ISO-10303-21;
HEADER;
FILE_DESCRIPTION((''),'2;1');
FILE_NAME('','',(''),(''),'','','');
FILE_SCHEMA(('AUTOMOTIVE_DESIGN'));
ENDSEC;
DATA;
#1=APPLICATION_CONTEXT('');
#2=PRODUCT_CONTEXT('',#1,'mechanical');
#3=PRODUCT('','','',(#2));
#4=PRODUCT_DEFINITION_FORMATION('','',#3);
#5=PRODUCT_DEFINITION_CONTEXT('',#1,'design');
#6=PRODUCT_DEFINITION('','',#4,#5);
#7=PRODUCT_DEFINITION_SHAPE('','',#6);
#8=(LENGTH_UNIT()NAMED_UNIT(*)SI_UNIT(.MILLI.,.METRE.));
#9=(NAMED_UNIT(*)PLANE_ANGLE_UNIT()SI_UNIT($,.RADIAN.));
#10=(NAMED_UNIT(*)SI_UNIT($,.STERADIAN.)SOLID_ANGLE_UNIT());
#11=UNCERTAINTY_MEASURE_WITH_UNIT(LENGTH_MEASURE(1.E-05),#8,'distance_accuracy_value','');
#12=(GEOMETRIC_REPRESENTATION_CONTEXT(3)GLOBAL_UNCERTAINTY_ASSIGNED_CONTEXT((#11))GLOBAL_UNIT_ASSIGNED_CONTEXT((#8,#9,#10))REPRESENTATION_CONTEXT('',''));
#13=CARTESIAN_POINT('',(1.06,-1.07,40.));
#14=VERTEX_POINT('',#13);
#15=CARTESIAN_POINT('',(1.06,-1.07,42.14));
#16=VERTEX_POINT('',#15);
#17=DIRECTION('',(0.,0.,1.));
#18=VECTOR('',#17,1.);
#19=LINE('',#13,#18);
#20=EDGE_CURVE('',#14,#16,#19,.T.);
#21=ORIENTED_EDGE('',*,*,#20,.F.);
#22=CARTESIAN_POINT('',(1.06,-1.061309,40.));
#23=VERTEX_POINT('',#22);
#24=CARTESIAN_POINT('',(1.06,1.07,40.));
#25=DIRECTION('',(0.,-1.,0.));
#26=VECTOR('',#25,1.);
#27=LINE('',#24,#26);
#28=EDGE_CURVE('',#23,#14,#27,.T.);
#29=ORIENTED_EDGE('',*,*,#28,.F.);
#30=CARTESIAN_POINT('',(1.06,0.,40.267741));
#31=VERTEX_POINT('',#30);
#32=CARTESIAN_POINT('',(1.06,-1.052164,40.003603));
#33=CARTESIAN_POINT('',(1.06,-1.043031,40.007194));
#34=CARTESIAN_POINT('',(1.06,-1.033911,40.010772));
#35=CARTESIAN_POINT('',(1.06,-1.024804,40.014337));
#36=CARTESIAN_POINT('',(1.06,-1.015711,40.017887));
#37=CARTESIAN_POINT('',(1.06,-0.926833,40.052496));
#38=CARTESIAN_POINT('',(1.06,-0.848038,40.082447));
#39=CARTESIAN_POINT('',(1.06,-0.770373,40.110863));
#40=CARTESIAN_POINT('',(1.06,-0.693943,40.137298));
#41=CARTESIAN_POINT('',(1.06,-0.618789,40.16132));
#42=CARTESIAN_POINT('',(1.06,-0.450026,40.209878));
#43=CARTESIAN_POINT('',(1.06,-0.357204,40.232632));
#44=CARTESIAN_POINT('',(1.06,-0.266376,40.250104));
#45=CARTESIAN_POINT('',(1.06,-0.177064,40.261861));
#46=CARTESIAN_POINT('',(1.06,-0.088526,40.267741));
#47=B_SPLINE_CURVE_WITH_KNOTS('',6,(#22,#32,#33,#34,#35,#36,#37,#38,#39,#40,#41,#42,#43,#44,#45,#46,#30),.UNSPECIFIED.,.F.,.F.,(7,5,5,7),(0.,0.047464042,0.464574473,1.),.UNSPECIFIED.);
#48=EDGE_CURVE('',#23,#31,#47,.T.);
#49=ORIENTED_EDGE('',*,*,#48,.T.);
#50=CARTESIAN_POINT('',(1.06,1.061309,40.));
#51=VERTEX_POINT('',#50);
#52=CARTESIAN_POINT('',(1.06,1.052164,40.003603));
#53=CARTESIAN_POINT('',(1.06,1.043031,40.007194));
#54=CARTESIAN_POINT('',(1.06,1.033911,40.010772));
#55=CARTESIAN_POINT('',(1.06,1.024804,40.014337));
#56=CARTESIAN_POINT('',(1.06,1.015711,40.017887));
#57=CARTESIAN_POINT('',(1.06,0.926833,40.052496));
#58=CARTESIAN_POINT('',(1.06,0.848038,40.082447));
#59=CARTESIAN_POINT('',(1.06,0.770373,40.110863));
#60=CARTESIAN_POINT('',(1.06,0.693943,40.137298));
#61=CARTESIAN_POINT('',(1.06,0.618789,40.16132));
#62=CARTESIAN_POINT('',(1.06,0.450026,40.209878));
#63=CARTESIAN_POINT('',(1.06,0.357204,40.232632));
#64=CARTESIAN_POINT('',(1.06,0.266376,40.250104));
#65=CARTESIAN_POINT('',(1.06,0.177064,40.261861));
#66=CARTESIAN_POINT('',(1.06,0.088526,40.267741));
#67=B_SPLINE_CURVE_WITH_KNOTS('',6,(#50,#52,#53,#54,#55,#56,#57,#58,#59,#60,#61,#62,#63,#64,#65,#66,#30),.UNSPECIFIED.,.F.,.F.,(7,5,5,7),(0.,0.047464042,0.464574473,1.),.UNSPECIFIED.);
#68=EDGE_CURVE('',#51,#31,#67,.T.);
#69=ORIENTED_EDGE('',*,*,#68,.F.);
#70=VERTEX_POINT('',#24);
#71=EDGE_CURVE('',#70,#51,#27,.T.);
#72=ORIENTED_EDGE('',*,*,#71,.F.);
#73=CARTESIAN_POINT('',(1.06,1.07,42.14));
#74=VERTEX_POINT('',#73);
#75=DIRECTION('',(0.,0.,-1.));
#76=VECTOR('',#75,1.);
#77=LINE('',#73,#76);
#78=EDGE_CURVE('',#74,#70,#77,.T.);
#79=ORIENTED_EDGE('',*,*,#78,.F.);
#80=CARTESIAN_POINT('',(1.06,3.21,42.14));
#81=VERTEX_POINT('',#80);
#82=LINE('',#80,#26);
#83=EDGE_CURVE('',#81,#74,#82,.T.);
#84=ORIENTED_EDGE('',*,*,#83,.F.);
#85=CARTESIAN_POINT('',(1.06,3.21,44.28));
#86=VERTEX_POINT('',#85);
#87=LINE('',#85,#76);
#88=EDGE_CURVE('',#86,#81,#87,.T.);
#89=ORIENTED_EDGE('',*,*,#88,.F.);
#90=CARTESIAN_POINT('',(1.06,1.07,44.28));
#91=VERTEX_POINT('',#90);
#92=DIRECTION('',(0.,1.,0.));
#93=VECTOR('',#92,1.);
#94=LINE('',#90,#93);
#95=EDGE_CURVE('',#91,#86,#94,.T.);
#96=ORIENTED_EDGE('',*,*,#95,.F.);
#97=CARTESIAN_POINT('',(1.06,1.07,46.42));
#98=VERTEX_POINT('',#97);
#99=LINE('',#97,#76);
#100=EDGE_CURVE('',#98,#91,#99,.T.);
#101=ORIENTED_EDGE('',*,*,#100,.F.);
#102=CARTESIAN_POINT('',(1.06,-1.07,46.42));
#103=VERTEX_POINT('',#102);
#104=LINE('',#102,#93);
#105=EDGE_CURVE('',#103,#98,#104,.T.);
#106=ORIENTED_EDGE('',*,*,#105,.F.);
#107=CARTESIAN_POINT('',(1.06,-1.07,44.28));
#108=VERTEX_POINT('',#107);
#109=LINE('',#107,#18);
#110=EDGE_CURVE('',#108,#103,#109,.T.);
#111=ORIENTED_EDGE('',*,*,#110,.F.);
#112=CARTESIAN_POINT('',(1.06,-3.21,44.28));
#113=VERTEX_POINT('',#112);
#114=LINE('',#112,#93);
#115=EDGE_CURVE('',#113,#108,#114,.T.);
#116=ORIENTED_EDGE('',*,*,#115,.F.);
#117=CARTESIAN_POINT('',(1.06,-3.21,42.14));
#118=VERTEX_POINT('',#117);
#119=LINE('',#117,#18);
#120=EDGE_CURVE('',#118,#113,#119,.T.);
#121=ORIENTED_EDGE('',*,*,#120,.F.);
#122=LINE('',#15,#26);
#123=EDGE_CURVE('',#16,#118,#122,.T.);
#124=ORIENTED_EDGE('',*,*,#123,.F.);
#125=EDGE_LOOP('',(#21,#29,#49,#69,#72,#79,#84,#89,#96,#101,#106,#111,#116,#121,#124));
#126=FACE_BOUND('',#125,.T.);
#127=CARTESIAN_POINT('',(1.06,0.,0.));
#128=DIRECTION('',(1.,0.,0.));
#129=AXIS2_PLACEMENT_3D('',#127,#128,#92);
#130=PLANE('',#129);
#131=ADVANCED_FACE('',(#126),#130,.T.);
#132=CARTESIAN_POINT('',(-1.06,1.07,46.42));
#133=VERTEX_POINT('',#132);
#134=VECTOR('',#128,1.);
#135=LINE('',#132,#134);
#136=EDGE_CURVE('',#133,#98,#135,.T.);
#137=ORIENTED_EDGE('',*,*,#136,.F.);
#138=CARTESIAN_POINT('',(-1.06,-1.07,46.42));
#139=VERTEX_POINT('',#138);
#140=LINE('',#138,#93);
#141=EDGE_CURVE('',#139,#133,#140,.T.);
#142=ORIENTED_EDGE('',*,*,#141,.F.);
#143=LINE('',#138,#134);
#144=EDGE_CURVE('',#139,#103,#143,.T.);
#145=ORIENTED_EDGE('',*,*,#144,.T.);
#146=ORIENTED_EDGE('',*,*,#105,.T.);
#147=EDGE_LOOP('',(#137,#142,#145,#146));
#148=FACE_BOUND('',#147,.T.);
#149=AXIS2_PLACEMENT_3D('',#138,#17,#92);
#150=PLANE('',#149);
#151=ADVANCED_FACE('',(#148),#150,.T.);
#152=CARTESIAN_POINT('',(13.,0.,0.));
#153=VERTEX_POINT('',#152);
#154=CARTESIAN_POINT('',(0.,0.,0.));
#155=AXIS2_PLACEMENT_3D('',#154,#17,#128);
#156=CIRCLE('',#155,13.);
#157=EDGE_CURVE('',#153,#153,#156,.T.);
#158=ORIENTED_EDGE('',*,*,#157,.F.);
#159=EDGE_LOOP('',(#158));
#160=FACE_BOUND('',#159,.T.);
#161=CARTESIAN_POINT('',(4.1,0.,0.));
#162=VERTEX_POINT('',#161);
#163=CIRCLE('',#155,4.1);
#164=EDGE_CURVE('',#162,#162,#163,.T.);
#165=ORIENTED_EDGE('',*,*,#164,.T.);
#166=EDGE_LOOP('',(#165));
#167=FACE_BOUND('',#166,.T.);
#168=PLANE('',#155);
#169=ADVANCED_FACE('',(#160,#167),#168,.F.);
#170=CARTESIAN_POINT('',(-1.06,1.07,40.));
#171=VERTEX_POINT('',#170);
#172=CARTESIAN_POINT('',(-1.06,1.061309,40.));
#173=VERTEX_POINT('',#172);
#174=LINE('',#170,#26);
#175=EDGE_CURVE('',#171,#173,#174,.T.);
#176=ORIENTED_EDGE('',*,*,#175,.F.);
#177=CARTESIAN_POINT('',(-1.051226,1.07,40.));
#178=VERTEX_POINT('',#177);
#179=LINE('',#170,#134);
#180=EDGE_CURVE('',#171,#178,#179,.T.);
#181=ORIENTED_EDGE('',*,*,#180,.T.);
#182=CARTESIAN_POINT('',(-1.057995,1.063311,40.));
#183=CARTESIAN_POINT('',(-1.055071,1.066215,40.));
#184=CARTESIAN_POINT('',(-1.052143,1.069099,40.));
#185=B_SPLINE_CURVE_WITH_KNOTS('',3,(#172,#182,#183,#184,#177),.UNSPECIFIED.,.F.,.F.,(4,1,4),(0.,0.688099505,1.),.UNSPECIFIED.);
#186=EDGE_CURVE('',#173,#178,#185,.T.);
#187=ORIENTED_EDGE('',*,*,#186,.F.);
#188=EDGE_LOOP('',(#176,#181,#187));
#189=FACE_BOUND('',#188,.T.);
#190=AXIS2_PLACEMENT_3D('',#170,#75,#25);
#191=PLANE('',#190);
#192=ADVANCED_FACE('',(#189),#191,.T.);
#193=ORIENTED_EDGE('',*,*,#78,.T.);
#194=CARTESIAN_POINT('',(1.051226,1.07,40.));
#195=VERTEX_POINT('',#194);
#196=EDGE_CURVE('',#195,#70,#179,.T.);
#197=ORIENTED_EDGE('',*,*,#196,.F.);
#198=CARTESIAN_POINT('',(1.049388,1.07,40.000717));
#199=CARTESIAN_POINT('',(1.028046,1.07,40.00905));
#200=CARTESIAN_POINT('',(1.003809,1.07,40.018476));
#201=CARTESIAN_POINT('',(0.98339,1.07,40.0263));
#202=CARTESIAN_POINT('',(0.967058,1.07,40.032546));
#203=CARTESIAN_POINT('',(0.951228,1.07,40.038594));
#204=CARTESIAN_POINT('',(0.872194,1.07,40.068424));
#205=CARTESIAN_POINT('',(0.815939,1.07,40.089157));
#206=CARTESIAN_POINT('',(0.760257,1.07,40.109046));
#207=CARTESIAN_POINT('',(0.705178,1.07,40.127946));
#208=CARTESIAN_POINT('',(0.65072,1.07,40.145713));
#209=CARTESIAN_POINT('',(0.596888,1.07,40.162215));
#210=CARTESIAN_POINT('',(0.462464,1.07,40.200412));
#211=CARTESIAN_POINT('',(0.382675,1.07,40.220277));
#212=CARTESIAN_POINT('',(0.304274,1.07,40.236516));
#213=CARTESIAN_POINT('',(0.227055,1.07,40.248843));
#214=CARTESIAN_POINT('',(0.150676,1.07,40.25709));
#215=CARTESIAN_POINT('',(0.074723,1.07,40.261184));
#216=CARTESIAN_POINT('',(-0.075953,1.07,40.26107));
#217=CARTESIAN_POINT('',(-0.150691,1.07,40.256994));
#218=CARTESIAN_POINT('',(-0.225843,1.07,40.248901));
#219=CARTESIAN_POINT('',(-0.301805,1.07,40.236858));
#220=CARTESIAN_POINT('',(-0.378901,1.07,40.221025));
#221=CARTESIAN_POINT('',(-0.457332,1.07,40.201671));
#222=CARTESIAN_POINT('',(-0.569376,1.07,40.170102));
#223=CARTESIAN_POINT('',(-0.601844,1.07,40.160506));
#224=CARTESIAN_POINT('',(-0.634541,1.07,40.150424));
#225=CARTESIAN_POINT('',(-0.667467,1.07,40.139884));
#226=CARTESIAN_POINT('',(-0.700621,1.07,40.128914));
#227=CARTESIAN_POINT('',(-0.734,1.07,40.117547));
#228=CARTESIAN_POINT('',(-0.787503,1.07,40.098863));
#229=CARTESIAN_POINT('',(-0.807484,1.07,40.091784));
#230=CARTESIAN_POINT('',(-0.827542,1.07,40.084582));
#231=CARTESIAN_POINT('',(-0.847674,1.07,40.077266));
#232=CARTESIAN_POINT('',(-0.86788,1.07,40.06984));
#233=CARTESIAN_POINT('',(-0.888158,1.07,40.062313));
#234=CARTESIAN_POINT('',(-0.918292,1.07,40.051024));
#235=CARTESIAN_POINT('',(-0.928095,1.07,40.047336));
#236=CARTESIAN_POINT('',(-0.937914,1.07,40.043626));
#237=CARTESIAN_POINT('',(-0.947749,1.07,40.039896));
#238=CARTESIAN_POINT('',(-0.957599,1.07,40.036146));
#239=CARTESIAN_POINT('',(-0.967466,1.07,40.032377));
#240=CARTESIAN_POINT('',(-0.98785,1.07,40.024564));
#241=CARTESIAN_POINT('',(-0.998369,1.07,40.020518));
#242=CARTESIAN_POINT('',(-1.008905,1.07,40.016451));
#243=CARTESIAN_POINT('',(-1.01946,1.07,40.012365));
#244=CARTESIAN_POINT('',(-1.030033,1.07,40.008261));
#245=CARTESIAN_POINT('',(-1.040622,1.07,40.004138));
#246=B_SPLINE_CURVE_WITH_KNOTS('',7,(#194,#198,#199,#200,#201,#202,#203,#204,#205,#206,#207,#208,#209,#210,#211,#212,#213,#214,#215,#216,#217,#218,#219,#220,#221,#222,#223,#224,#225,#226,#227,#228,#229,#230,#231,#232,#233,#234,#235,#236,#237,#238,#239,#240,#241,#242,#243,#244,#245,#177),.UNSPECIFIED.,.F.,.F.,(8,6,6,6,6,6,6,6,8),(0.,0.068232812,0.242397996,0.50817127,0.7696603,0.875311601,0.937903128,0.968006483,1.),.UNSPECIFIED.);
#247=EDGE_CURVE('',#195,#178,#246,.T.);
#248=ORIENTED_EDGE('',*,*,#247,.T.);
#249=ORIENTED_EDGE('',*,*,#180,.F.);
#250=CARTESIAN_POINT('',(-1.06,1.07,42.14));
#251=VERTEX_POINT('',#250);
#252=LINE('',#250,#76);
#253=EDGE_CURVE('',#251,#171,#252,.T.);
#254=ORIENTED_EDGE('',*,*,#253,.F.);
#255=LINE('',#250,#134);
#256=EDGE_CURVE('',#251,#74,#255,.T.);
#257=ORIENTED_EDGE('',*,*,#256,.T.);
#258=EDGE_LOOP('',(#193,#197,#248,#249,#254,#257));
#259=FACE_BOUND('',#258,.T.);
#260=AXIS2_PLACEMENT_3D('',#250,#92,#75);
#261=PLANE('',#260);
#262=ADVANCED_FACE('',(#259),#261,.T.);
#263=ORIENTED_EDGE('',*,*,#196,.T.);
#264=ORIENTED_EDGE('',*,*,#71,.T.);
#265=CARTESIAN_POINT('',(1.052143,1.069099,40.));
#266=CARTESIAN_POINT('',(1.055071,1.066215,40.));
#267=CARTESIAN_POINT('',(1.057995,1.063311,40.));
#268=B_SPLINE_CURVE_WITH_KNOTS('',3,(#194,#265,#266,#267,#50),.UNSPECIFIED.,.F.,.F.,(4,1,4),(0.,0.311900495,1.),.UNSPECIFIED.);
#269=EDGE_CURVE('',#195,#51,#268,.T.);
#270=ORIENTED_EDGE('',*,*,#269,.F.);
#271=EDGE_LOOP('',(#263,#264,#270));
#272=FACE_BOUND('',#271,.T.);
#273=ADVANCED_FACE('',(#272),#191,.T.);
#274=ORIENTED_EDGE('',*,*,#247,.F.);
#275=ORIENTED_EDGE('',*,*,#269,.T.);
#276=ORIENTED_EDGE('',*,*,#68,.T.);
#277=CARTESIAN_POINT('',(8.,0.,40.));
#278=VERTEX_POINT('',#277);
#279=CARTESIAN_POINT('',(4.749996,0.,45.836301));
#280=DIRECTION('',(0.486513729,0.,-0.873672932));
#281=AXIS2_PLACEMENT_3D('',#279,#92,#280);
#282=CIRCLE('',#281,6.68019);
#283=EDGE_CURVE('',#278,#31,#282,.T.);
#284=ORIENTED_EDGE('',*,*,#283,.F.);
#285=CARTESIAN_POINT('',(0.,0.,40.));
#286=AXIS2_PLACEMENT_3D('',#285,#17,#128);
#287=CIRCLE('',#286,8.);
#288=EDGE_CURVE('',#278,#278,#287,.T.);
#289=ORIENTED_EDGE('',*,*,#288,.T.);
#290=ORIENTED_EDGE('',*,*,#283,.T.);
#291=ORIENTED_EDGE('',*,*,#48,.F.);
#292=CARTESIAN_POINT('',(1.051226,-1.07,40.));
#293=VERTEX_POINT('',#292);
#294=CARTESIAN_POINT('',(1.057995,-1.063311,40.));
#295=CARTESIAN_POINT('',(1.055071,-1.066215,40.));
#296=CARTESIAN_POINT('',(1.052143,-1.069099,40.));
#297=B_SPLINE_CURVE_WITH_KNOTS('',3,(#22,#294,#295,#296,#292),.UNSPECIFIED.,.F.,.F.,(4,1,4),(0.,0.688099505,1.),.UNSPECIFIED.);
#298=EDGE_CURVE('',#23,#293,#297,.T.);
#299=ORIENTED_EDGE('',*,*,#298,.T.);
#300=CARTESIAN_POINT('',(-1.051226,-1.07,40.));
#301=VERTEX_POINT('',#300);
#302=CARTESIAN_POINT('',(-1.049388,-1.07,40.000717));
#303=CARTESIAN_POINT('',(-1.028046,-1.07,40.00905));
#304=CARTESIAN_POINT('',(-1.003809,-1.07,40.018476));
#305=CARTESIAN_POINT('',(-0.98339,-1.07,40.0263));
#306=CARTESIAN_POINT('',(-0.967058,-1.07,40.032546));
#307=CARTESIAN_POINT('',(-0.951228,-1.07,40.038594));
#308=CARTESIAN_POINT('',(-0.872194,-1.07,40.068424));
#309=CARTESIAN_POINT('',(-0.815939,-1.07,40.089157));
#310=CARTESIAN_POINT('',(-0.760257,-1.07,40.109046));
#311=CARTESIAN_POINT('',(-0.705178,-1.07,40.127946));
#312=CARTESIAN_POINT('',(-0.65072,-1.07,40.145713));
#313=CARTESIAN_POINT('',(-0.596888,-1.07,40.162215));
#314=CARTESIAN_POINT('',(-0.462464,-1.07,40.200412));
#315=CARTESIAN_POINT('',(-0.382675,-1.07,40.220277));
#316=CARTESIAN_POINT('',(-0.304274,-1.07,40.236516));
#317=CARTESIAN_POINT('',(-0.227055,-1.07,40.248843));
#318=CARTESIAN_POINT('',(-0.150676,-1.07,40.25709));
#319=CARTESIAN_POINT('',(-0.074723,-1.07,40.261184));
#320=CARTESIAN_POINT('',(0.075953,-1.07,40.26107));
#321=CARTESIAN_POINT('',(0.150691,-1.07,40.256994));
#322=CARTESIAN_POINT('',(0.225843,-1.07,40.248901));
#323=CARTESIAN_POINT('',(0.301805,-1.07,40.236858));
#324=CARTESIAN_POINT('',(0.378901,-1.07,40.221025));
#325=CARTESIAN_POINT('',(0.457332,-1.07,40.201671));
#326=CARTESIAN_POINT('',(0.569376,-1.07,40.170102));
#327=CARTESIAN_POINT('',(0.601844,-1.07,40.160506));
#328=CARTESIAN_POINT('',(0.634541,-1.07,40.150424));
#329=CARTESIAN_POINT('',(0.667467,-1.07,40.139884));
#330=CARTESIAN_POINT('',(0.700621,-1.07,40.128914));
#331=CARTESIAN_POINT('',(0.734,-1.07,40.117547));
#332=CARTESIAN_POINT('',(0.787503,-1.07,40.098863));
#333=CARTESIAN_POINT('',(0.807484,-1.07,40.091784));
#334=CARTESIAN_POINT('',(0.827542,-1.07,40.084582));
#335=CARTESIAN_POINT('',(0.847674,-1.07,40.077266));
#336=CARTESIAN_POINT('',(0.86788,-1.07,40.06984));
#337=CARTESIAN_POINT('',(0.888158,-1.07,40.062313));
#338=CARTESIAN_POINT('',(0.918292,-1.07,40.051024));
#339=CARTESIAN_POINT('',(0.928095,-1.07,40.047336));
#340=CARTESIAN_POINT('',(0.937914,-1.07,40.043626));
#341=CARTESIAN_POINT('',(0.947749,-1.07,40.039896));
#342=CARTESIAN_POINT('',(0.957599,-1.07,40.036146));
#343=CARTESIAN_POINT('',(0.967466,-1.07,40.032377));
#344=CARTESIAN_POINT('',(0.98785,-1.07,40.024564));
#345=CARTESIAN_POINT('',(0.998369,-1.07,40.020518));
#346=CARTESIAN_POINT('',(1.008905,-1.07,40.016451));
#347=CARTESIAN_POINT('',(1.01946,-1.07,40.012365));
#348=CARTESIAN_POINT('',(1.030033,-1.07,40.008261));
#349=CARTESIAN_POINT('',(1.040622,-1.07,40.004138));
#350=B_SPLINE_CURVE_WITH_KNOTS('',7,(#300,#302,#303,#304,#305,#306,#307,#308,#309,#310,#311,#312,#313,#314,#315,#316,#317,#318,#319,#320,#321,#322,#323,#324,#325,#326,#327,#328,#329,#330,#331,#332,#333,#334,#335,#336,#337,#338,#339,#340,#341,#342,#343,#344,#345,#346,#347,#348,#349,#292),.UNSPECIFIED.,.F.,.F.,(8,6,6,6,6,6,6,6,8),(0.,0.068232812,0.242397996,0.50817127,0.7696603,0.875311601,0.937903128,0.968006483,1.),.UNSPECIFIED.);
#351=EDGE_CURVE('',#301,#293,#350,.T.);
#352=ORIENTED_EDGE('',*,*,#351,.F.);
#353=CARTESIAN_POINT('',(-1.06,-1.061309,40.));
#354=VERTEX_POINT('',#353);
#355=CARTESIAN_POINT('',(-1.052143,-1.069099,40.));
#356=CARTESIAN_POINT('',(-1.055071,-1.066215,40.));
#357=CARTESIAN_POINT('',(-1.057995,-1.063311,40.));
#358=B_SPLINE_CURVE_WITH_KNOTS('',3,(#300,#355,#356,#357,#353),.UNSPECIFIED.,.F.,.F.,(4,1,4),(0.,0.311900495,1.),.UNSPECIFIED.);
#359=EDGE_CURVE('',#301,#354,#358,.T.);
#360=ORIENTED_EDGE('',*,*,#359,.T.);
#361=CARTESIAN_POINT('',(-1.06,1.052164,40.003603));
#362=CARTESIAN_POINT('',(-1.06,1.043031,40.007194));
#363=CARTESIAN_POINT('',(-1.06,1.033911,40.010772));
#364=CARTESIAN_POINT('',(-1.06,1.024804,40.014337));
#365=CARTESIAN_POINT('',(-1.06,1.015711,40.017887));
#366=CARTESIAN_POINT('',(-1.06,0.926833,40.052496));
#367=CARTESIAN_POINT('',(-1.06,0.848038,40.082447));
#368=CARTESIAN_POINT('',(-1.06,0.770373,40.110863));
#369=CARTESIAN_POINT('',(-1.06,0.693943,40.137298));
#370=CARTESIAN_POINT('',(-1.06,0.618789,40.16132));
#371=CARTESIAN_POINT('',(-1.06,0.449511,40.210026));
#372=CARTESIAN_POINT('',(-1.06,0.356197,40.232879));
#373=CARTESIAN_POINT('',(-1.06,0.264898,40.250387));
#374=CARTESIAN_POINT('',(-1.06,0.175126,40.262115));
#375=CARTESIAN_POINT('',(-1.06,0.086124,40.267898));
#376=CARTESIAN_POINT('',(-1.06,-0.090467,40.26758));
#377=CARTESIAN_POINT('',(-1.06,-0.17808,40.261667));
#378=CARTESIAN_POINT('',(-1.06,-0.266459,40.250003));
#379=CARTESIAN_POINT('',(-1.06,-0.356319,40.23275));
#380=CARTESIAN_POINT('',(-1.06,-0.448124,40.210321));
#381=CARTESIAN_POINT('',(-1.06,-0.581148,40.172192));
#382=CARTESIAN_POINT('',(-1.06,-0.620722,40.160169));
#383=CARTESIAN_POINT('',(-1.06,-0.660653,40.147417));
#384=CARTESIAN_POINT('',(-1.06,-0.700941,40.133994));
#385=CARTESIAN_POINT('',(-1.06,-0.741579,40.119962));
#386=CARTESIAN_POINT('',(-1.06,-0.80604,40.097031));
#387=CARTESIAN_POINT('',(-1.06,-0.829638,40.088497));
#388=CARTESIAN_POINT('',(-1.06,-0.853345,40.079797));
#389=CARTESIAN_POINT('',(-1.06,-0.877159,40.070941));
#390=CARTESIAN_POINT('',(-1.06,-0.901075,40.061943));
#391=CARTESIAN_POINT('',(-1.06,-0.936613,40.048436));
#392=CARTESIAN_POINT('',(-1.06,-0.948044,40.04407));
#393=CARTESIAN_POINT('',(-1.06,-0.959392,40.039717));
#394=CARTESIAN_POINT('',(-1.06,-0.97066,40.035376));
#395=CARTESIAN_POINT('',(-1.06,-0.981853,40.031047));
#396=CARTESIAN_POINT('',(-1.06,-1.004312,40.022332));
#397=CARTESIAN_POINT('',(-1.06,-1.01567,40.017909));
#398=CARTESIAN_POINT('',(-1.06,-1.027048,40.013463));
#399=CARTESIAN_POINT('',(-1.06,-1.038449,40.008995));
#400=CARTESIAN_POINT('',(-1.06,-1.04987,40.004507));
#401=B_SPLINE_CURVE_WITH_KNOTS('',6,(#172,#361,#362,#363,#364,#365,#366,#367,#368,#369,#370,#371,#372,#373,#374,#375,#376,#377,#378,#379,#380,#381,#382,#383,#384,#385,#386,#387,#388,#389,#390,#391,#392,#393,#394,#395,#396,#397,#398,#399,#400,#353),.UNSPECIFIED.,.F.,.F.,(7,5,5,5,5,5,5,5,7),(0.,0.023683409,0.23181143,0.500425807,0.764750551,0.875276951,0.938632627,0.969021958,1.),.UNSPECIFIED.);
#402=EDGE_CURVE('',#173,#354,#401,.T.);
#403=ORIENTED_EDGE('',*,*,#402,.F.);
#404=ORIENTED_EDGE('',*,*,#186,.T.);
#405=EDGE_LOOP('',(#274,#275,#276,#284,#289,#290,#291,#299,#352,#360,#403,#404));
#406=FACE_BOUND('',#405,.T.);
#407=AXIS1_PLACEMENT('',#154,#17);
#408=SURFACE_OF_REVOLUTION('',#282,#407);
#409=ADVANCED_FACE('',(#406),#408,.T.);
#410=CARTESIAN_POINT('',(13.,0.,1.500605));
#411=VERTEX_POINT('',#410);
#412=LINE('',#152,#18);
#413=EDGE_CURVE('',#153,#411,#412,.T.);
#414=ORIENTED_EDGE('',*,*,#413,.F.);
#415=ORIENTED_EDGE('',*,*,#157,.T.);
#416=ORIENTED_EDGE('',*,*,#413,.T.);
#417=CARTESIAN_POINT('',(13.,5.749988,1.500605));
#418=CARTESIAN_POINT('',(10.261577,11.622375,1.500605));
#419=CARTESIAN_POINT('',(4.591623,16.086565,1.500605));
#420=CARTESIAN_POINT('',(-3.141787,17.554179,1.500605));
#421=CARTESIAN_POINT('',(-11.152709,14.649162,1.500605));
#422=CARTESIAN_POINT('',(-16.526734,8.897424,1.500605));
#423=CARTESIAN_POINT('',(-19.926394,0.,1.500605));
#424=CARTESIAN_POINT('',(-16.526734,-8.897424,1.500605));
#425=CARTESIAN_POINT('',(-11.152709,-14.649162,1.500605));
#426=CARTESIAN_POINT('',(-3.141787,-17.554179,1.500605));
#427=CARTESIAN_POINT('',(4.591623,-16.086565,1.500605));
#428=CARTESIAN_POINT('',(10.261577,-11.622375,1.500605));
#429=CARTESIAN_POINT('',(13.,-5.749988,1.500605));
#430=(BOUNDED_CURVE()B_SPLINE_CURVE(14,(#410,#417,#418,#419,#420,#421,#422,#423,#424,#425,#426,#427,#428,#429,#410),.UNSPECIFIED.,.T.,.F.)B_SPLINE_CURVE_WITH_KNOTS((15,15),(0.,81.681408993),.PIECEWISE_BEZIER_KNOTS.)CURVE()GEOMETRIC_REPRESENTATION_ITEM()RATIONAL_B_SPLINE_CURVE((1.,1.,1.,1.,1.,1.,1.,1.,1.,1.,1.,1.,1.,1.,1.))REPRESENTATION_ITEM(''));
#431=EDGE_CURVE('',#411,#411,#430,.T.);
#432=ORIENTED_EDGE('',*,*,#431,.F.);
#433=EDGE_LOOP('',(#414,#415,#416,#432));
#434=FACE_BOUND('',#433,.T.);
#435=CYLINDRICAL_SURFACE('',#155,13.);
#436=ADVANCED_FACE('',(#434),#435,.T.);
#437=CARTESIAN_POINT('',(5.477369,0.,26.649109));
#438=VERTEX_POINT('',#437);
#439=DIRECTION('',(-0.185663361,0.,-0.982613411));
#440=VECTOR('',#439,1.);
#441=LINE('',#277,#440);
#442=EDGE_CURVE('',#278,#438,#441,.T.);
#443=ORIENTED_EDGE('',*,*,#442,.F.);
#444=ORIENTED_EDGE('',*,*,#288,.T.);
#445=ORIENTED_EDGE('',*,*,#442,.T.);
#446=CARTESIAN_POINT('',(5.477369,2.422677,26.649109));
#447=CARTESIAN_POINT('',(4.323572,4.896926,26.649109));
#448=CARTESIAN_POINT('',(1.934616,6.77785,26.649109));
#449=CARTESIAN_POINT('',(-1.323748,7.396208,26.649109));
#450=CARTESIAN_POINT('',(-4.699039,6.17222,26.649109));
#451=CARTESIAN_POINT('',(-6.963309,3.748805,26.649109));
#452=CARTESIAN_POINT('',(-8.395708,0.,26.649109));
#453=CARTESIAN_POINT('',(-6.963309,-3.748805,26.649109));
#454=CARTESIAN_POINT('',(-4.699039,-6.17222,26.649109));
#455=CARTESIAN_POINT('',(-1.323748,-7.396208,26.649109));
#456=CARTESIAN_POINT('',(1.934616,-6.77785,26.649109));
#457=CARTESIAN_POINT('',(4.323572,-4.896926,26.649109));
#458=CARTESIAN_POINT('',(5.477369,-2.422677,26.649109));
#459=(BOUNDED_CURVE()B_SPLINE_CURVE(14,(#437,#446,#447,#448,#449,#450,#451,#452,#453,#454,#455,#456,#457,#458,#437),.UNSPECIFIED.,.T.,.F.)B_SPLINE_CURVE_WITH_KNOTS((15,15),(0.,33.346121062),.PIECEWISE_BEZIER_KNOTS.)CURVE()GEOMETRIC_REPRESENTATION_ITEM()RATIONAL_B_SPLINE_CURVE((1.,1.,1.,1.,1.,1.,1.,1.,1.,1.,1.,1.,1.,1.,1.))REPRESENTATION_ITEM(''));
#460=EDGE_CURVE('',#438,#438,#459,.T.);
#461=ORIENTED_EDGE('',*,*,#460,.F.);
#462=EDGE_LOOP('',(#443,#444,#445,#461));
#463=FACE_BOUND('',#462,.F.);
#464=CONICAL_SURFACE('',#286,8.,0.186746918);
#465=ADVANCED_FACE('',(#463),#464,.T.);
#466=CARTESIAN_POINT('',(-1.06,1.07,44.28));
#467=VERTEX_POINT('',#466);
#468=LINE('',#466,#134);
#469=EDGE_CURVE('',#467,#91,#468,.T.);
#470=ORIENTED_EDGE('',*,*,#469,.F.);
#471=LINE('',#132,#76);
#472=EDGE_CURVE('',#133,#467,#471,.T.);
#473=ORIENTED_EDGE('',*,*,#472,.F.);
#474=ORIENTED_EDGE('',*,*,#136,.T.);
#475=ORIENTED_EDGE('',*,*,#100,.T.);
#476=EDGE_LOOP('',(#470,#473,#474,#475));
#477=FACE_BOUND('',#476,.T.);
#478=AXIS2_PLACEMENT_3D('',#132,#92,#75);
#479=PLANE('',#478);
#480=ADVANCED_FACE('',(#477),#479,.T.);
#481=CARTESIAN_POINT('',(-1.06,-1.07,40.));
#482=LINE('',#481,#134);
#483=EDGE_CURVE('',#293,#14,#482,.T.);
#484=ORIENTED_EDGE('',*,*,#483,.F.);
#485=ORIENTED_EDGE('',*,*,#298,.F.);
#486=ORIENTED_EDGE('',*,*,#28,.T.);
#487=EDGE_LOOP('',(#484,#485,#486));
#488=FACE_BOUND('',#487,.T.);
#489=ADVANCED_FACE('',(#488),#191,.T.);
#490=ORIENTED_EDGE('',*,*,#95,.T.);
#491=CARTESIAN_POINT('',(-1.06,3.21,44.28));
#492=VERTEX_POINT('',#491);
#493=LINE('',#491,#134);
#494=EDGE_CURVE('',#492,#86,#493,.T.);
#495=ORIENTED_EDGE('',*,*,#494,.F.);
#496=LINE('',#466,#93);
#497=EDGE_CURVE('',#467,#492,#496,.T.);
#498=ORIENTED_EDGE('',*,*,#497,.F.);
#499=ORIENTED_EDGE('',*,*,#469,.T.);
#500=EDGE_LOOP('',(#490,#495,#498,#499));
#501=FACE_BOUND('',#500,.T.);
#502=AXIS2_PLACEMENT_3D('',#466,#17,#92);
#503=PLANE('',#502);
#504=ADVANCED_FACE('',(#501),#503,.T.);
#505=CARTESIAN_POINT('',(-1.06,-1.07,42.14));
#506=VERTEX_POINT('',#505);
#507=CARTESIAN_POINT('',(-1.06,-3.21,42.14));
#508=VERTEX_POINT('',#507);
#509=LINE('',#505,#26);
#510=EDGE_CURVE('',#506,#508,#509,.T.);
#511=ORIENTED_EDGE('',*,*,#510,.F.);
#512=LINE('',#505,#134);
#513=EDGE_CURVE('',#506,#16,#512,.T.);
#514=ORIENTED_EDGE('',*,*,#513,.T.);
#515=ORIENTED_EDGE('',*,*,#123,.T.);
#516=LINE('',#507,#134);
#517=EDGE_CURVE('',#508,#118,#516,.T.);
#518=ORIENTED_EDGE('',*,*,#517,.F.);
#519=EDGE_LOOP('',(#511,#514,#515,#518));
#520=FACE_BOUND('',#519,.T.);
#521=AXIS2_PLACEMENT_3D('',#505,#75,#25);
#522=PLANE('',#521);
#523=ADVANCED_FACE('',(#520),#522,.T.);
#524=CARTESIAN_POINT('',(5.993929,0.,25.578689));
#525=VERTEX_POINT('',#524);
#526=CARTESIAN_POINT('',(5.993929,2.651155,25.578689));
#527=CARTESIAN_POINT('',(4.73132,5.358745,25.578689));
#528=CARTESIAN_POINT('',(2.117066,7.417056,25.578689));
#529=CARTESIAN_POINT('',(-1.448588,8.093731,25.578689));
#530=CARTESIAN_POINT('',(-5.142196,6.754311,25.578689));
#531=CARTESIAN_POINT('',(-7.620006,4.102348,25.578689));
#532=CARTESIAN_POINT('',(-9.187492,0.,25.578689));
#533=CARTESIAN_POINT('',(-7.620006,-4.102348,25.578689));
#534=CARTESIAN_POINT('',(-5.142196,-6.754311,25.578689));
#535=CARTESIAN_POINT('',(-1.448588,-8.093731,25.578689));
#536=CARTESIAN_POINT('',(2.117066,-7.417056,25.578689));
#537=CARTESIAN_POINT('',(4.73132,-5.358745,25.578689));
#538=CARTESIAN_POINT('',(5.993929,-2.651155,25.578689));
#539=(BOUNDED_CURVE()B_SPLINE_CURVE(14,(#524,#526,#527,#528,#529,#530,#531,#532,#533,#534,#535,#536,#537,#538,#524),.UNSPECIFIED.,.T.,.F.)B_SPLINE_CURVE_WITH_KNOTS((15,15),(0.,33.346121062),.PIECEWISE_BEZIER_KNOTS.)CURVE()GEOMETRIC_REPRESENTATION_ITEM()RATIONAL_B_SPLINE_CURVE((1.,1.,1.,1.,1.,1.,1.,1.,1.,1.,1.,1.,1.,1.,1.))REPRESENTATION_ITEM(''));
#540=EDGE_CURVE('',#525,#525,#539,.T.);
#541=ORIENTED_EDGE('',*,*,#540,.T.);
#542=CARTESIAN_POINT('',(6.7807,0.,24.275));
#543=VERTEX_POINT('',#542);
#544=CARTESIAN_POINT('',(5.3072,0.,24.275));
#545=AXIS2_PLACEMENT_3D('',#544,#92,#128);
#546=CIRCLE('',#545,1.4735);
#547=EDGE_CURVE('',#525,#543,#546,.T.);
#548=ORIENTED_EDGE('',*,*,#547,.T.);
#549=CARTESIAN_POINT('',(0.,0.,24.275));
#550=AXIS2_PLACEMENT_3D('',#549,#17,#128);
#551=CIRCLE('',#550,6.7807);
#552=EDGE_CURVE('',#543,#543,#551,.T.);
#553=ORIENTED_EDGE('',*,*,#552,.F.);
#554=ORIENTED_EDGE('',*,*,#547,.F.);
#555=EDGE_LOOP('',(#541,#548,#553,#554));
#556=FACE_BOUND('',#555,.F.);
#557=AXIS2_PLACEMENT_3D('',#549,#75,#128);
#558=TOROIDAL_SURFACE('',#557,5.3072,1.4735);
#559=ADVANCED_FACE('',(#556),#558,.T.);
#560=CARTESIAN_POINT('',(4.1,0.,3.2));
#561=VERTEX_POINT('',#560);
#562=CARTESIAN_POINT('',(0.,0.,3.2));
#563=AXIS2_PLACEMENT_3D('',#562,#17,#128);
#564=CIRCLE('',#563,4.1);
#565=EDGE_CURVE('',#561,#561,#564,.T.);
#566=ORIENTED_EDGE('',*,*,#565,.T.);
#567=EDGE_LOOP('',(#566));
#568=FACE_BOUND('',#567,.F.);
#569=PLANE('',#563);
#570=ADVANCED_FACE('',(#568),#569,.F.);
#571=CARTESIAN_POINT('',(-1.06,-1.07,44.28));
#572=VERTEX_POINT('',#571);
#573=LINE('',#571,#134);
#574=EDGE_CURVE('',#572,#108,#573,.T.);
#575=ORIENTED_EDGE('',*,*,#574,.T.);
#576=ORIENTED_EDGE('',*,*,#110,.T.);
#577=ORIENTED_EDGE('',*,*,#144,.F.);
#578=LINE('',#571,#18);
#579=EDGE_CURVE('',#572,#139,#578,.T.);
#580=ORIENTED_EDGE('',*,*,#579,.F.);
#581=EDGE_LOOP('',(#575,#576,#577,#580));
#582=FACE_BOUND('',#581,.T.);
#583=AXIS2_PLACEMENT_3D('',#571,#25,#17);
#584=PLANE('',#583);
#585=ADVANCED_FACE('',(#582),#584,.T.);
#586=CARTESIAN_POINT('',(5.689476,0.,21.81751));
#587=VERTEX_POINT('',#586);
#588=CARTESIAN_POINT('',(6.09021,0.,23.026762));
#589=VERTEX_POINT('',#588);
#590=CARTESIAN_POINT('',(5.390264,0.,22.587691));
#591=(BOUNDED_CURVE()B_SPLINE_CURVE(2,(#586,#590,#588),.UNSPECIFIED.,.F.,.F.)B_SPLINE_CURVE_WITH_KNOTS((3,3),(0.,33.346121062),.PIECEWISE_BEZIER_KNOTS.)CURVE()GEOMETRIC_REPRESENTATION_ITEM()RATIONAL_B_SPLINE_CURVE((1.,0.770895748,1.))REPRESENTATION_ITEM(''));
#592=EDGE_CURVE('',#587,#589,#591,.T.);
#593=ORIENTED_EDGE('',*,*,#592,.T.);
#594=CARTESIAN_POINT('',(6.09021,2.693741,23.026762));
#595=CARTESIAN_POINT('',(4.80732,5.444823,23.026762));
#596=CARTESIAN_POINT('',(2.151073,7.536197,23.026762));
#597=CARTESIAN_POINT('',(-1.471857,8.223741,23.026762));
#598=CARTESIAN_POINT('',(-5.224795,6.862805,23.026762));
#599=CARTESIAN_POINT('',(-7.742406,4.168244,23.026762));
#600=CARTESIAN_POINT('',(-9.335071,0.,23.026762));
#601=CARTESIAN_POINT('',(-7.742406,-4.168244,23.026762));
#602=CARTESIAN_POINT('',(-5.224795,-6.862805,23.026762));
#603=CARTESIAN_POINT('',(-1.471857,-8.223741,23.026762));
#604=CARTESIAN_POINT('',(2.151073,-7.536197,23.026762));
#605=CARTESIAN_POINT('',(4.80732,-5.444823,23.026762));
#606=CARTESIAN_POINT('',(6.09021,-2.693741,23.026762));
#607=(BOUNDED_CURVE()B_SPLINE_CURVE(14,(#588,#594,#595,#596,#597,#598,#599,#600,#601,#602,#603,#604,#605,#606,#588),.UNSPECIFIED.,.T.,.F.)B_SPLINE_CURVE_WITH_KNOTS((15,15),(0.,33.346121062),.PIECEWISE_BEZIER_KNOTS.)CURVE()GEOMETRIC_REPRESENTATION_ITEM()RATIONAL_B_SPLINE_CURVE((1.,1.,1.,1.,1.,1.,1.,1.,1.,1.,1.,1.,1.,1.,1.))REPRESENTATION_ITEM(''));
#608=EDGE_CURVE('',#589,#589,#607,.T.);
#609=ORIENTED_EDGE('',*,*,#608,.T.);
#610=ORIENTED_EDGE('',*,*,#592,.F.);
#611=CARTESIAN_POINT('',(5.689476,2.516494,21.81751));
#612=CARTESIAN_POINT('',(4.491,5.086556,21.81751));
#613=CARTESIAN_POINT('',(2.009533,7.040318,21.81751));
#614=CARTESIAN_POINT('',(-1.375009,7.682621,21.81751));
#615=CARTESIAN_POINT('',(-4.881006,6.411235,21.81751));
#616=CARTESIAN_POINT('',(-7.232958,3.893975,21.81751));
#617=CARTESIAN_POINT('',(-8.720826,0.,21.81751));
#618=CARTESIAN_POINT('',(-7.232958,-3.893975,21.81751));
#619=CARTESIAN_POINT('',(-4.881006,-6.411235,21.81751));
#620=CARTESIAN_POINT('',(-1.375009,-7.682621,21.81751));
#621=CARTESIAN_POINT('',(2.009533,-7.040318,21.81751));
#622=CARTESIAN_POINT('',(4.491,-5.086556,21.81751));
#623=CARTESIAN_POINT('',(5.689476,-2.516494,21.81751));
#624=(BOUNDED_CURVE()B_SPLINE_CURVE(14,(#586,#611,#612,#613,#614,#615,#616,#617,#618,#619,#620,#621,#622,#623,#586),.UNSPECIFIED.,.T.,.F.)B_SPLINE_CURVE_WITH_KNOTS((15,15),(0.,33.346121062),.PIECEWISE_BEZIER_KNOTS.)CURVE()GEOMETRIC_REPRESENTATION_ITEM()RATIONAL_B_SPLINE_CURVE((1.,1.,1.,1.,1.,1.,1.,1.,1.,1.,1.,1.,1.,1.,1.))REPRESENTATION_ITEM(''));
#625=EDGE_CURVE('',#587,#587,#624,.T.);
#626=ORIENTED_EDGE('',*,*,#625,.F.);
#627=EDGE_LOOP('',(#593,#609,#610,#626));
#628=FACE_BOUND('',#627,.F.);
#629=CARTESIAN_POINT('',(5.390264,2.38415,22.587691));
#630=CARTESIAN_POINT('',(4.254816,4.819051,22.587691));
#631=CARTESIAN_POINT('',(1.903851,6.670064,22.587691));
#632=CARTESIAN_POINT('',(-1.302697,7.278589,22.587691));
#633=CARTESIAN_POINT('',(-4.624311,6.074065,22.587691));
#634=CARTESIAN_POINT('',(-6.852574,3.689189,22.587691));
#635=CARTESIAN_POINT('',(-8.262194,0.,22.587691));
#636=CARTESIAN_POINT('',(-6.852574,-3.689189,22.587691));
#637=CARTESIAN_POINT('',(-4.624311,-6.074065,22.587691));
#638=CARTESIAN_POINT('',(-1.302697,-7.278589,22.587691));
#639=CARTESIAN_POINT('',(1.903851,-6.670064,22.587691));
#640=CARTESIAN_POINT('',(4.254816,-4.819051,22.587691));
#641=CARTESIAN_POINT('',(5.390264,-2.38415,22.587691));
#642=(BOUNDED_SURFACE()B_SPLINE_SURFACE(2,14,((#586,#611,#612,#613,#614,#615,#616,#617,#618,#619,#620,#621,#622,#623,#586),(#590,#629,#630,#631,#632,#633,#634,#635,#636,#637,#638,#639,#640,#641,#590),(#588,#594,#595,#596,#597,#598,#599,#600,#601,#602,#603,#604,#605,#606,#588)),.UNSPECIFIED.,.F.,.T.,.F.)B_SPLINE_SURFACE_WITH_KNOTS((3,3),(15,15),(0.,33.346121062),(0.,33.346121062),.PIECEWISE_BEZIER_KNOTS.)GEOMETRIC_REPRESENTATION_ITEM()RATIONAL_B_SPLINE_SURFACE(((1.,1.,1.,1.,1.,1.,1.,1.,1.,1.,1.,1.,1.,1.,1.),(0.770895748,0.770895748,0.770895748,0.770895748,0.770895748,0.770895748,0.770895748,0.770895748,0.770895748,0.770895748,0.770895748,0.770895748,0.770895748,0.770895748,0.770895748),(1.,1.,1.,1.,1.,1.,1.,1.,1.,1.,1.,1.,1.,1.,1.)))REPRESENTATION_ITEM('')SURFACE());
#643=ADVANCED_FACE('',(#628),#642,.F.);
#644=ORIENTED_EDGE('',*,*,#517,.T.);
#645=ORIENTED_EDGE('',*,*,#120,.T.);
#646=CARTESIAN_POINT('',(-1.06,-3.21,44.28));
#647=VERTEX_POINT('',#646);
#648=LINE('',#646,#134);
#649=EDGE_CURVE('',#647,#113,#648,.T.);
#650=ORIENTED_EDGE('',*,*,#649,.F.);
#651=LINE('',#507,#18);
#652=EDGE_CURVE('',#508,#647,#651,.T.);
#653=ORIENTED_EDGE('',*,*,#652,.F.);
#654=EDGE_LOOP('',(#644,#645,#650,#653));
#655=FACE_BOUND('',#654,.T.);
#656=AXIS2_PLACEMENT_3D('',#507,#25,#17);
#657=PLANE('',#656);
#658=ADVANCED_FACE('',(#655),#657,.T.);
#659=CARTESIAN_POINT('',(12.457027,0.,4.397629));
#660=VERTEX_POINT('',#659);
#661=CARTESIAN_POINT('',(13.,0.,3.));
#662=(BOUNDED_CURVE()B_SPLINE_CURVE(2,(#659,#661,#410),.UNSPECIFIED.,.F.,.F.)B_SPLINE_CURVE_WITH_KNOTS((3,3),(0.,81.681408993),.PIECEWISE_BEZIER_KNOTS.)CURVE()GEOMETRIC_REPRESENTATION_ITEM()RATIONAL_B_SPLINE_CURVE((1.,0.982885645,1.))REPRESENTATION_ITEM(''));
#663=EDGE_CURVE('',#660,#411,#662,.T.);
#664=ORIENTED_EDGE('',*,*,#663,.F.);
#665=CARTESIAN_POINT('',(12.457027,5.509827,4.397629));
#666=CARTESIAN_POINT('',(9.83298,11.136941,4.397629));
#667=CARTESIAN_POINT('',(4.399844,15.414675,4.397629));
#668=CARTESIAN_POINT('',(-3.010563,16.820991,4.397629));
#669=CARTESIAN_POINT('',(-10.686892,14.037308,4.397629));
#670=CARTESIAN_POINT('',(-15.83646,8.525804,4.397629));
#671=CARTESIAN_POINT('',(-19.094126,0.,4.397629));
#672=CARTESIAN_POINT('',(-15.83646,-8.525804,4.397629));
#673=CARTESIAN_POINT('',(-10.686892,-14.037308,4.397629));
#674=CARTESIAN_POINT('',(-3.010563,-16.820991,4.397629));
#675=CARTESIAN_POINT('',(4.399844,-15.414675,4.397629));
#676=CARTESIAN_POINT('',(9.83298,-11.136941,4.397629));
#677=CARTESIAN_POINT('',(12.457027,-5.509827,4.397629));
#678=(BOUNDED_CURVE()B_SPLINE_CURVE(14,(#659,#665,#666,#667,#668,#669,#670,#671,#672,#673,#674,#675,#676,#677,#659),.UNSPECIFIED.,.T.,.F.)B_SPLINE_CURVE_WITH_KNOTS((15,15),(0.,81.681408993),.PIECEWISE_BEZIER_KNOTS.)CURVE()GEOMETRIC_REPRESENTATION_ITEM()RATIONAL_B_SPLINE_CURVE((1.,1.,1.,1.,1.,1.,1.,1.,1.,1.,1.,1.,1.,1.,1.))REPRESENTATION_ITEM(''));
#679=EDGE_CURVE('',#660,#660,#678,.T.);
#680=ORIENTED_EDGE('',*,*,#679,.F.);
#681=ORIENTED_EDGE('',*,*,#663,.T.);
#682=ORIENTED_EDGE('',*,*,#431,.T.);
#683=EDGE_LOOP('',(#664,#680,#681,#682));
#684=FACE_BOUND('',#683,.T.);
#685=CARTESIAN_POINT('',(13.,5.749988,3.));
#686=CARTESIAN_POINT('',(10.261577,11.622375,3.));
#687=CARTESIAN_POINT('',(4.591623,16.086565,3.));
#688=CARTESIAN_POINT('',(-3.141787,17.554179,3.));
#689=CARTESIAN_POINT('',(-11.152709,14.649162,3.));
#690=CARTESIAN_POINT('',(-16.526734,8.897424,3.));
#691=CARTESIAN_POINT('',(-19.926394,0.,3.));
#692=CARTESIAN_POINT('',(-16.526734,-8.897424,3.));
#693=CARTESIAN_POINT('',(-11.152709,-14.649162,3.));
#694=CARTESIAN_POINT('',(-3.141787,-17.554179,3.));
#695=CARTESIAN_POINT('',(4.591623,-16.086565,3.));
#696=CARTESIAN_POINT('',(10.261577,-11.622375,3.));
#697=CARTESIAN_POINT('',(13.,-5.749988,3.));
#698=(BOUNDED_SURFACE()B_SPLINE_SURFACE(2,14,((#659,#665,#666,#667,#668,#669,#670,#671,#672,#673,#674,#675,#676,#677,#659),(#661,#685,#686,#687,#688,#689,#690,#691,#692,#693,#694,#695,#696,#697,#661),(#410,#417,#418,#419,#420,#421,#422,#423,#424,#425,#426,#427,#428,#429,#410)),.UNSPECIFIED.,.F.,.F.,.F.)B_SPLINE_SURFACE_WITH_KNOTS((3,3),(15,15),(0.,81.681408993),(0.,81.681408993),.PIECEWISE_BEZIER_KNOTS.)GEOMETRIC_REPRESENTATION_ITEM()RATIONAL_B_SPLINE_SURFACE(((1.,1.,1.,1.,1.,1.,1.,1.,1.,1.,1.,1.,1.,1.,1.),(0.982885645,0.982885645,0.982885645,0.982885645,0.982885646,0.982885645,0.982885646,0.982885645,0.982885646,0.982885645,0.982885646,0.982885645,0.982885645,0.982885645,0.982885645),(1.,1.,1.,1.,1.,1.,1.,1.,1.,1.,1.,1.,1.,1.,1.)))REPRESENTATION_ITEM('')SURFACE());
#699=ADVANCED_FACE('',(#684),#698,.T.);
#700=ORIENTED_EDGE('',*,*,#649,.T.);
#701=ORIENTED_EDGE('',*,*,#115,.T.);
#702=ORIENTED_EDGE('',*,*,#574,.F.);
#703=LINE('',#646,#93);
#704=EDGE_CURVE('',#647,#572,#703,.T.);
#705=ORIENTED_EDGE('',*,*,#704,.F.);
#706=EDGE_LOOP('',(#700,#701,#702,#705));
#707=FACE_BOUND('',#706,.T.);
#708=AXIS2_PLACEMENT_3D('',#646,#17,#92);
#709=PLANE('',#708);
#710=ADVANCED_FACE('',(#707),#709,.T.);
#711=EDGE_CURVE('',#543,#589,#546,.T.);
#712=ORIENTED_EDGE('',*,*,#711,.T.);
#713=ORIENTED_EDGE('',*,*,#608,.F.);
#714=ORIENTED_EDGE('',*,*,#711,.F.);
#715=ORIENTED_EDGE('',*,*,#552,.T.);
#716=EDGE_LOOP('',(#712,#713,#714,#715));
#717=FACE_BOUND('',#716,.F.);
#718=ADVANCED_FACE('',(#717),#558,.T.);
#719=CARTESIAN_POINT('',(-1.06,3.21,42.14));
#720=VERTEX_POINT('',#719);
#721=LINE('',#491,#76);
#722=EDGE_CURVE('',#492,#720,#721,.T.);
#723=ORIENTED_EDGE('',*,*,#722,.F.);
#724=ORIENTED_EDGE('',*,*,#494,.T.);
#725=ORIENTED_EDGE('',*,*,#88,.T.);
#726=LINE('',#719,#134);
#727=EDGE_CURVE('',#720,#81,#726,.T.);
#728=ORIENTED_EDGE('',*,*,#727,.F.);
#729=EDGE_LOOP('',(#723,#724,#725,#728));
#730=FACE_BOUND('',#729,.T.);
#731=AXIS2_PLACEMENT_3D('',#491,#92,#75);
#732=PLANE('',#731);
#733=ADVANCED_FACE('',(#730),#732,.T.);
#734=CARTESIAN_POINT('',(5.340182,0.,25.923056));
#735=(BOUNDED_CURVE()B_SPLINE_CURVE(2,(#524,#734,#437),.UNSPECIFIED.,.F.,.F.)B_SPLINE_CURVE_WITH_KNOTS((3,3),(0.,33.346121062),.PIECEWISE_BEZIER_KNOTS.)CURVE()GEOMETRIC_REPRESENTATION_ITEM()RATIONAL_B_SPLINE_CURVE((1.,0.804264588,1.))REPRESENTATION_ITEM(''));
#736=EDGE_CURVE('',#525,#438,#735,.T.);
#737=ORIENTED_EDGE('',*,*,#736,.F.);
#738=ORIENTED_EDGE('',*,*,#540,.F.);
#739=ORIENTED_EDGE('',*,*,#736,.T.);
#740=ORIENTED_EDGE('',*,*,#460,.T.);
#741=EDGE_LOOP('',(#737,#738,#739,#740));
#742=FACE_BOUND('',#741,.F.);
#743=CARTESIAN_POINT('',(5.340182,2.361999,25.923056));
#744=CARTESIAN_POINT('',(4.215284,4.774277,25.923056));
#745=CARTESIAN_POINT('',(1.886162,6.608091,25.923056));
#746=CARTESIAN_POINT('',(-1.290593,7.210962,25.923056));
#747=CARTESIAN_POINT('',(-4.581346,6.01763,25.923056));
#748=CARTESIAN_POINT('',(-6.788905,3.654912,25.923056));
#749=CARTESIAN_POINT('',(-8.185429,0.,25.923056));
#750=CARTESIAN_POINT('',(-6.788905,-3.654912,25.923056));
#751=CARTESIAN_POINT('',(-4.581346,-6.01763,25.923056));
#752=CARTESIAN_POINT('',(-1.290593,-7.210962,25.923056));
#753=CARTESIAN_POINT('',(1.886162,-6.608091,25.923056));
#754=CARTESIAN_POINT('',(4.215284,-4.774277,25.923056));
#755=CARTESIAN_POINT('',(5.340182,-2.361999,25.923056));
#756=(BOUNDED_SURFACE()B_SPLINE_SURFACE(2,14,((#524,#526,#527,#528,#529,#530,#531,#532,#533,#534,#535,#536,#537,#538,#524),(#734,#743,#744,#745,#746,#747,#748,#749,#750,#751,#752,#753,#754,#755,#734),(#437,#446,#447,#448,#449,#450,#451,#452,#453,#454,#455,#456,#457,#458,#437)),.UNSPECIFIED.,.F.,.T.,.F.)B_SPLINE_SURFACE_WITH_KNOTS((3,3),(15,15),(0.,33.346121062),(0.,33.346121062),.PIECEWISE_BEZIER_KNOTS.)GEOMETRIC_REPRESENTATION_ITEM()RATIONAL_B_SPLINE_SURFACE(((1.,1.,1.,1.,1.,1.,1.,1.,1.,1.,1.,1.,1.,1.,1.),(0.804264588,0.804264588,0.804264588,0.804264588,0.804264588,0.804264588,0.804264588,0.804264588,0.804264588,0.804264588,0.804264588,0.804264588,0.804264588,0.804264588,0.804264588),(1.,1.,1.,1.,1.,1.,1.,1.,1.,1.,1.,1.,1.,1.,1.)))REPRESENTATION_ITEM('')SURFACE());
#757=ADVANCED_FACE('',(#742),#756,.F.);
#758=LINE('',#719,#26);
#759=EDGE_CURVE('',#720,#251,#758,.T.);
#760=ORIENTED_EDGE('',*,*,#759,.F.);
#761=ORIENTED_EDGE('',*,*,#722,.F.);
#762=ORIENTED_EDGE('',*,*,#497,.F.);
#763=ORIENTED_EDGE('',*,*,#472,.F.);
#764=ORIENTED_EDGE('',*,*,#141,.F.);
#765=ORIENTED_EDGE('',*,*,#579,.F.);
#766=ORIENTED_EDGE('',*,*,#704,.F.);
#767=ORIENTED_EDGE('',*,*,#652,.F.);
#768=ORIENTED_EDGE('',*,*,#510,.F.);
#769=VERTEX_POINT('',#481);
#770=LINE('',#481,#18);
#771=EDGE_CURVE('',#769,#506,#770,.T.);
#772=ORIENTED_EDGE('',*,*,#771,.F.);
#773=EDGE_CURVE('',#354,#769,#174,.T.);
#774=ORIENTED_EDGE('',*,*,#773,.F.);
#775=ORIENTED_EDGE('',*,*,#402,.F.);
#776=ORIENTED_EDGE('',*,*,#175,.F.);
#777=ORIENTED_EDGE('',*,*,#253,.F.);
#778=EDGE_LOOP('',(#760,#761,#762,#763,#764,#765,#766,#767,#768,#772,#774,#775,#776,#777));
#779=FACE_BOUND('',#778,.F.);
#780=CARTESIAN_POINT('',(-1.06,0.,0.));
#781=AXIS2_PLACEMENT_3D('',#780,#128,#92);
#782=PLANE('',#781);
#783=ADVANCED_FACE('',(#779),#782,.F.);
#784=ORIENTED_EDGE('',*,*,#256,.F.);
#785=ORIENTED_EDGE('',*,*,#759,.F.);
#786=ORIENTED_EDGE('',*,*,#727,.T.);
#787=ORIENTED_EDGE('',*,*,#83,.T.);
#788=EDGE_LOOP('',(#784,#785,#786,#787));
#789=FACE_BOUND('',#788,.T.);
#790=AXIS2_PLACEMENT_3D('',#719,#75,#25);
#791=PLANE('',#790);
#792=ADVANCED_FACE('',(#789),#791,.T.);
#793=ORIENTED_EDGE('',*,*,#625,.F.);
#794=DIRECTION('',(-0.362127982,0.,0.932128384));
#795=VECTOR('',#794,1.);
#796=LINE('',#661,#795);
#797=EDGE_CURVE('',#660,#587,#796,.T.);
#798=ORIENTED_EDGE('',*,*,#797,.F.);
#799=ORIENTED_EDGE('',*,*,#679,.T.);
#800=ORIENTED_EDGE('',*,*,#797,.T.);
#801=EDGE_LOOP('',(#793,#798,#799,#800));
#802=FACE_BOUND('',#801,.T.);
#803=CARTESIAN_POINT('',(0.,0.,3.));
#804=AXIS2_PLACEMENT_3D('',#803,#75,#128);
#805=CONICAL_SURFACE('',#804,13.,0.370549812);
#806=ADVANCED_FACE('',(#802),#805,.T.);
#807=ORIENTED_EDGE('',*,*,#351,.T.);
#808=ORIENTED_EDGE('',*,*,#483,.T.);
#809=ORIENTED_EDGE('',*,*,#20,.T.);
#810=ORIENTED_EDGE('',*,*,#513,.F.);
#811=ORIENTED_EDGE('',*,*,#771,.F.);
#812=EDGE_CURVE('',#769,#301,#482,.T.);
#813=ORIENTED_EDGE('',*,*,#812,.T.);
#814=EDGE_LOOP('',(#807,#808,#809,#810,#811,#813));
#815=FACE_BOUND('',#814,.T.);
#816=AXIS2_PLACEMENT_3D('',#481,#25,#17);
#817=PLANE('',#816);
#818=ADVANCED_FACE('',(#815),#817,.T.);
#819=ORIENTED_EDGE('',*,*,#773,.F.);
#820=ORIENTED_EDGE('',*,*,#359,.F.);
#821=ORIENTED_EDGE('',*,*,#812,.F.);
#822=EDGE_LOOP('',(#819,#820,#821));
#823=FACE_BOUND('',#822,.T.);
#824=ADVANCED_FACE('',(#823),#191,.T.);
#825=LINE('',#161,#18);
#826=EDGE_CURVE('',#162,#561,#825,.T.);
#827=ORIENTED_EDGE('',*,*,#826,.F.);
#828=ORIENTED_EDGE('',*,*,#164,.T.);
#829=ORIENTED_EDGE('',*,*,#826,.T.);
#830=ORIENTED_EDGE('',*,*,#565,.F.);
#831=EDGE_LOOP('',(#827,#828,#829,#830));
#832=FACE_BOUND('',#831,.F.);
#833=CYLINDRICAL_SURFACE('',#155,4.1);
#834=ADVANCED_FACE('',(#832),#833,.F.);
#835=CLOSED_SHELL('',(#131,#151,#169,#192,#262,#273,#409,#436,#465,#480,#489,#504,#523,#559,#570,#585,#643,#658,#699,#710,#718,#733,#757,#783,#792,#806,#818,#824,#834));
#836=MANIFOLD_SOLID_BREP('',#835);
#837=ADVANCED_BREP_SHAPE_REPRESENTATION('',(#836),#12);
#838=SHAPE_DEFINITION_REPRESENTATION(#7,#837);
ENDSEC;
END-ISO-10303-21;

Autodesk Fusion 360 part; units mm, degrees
sketch "Esquisse1" plane through (0, 0, 0) normal (0, 1, 0) x (1, 0, 0)
  line L0 (0, 0) -> (13, 0)
  line L1 (13, 0) -> (0, 0)
  line L2 (0, 0) -> (0, -42)
  line L3 (13, 0) -> (13, -3)
  line L4 (8, -40) -> (5.3072, -25.7485)
  line L5 (13, -3) -> (5.3072, -22.8015)
  circle A0 centre (5.3072, -24.275) radius 1.4735
  line L6 (5.3072, -25.7485) -> (5.3072, -22.8015)
  line L7 (0, -42) -> (-0.7188, -42)
  arc A1 (8, -40) -> (-0.7188, -42) centre (4.75, -45.8363) ccw
  line L8 (0, 0) -> (4.1, 0)
  line L9 (4.1, 0) -> (4.1, -3.2)
  line L10 (4.1, -3.2) -> (0, -3.2)
  line L11 (0, -3.2) -> (0, 0)
  dimension "d1" = 13
  dimension "d2" = 42
  dimension "d3" = 3
  dimension "d4" = 4.1
  dimension "d5" = 3.2
revolve "Révolution1" add sketch "Esquisse1" angle 360 about axis through (0, 0, 0) along (0, 0, 1) contours L0 L1 L2 L3 L4 L5 A0 A1 L9 L10 | A0 L6 | A0 L6
fillet "Congé1" radius 1 2 edges at (-4.9481, -1.9192, 25.7485) (-4.9481, -1.9192, 22.8015)
fillet "Congé2" radius 8 1 edges at (-12.1203, -4.701, 3)
sketch "Esquisse2" plane through (0, 0, 0) normal (1, 0, 0) x (0, 1, 0)
  line L0 (-1.07, 40) -> (-1.07, 42.14)
  line L1 (-1.07, 42.14) -> (-3.21, 42.14)
  line L2 (-3.21, 42.14) -> (-3.21, 44.28)
  line L3 (-3.21, 44.28) -> (-1.07, 44.28)
  line L4 (-1.07, 44.28) -> (-1.07, 46.42)
  line L5 (-1.07, 46.42) -> (1.07, 46.42)
  line L6 (1.07, 46.42) -> (1.07, 44.28)
  line L7 (1.07, 44.28) -> (3.21, 44.28)
  line L8 (3.21, 44.28) -> (3.21, 42.14)
  line L9 (3.21, 42.14) -> (1.07, 42.14)
  line L10 (1.07, 42.14) -> (1.07, 40)
  line L11 (1.07, 40) -> (-1.07, 40)
  point P0 (0, 40)
  point P1 (0, 40)
  dimension "d12" = 2.14
extrude "Extrusion1" add sketch "Esquisse2" along normal blind 2.12 from surface at -1.06
